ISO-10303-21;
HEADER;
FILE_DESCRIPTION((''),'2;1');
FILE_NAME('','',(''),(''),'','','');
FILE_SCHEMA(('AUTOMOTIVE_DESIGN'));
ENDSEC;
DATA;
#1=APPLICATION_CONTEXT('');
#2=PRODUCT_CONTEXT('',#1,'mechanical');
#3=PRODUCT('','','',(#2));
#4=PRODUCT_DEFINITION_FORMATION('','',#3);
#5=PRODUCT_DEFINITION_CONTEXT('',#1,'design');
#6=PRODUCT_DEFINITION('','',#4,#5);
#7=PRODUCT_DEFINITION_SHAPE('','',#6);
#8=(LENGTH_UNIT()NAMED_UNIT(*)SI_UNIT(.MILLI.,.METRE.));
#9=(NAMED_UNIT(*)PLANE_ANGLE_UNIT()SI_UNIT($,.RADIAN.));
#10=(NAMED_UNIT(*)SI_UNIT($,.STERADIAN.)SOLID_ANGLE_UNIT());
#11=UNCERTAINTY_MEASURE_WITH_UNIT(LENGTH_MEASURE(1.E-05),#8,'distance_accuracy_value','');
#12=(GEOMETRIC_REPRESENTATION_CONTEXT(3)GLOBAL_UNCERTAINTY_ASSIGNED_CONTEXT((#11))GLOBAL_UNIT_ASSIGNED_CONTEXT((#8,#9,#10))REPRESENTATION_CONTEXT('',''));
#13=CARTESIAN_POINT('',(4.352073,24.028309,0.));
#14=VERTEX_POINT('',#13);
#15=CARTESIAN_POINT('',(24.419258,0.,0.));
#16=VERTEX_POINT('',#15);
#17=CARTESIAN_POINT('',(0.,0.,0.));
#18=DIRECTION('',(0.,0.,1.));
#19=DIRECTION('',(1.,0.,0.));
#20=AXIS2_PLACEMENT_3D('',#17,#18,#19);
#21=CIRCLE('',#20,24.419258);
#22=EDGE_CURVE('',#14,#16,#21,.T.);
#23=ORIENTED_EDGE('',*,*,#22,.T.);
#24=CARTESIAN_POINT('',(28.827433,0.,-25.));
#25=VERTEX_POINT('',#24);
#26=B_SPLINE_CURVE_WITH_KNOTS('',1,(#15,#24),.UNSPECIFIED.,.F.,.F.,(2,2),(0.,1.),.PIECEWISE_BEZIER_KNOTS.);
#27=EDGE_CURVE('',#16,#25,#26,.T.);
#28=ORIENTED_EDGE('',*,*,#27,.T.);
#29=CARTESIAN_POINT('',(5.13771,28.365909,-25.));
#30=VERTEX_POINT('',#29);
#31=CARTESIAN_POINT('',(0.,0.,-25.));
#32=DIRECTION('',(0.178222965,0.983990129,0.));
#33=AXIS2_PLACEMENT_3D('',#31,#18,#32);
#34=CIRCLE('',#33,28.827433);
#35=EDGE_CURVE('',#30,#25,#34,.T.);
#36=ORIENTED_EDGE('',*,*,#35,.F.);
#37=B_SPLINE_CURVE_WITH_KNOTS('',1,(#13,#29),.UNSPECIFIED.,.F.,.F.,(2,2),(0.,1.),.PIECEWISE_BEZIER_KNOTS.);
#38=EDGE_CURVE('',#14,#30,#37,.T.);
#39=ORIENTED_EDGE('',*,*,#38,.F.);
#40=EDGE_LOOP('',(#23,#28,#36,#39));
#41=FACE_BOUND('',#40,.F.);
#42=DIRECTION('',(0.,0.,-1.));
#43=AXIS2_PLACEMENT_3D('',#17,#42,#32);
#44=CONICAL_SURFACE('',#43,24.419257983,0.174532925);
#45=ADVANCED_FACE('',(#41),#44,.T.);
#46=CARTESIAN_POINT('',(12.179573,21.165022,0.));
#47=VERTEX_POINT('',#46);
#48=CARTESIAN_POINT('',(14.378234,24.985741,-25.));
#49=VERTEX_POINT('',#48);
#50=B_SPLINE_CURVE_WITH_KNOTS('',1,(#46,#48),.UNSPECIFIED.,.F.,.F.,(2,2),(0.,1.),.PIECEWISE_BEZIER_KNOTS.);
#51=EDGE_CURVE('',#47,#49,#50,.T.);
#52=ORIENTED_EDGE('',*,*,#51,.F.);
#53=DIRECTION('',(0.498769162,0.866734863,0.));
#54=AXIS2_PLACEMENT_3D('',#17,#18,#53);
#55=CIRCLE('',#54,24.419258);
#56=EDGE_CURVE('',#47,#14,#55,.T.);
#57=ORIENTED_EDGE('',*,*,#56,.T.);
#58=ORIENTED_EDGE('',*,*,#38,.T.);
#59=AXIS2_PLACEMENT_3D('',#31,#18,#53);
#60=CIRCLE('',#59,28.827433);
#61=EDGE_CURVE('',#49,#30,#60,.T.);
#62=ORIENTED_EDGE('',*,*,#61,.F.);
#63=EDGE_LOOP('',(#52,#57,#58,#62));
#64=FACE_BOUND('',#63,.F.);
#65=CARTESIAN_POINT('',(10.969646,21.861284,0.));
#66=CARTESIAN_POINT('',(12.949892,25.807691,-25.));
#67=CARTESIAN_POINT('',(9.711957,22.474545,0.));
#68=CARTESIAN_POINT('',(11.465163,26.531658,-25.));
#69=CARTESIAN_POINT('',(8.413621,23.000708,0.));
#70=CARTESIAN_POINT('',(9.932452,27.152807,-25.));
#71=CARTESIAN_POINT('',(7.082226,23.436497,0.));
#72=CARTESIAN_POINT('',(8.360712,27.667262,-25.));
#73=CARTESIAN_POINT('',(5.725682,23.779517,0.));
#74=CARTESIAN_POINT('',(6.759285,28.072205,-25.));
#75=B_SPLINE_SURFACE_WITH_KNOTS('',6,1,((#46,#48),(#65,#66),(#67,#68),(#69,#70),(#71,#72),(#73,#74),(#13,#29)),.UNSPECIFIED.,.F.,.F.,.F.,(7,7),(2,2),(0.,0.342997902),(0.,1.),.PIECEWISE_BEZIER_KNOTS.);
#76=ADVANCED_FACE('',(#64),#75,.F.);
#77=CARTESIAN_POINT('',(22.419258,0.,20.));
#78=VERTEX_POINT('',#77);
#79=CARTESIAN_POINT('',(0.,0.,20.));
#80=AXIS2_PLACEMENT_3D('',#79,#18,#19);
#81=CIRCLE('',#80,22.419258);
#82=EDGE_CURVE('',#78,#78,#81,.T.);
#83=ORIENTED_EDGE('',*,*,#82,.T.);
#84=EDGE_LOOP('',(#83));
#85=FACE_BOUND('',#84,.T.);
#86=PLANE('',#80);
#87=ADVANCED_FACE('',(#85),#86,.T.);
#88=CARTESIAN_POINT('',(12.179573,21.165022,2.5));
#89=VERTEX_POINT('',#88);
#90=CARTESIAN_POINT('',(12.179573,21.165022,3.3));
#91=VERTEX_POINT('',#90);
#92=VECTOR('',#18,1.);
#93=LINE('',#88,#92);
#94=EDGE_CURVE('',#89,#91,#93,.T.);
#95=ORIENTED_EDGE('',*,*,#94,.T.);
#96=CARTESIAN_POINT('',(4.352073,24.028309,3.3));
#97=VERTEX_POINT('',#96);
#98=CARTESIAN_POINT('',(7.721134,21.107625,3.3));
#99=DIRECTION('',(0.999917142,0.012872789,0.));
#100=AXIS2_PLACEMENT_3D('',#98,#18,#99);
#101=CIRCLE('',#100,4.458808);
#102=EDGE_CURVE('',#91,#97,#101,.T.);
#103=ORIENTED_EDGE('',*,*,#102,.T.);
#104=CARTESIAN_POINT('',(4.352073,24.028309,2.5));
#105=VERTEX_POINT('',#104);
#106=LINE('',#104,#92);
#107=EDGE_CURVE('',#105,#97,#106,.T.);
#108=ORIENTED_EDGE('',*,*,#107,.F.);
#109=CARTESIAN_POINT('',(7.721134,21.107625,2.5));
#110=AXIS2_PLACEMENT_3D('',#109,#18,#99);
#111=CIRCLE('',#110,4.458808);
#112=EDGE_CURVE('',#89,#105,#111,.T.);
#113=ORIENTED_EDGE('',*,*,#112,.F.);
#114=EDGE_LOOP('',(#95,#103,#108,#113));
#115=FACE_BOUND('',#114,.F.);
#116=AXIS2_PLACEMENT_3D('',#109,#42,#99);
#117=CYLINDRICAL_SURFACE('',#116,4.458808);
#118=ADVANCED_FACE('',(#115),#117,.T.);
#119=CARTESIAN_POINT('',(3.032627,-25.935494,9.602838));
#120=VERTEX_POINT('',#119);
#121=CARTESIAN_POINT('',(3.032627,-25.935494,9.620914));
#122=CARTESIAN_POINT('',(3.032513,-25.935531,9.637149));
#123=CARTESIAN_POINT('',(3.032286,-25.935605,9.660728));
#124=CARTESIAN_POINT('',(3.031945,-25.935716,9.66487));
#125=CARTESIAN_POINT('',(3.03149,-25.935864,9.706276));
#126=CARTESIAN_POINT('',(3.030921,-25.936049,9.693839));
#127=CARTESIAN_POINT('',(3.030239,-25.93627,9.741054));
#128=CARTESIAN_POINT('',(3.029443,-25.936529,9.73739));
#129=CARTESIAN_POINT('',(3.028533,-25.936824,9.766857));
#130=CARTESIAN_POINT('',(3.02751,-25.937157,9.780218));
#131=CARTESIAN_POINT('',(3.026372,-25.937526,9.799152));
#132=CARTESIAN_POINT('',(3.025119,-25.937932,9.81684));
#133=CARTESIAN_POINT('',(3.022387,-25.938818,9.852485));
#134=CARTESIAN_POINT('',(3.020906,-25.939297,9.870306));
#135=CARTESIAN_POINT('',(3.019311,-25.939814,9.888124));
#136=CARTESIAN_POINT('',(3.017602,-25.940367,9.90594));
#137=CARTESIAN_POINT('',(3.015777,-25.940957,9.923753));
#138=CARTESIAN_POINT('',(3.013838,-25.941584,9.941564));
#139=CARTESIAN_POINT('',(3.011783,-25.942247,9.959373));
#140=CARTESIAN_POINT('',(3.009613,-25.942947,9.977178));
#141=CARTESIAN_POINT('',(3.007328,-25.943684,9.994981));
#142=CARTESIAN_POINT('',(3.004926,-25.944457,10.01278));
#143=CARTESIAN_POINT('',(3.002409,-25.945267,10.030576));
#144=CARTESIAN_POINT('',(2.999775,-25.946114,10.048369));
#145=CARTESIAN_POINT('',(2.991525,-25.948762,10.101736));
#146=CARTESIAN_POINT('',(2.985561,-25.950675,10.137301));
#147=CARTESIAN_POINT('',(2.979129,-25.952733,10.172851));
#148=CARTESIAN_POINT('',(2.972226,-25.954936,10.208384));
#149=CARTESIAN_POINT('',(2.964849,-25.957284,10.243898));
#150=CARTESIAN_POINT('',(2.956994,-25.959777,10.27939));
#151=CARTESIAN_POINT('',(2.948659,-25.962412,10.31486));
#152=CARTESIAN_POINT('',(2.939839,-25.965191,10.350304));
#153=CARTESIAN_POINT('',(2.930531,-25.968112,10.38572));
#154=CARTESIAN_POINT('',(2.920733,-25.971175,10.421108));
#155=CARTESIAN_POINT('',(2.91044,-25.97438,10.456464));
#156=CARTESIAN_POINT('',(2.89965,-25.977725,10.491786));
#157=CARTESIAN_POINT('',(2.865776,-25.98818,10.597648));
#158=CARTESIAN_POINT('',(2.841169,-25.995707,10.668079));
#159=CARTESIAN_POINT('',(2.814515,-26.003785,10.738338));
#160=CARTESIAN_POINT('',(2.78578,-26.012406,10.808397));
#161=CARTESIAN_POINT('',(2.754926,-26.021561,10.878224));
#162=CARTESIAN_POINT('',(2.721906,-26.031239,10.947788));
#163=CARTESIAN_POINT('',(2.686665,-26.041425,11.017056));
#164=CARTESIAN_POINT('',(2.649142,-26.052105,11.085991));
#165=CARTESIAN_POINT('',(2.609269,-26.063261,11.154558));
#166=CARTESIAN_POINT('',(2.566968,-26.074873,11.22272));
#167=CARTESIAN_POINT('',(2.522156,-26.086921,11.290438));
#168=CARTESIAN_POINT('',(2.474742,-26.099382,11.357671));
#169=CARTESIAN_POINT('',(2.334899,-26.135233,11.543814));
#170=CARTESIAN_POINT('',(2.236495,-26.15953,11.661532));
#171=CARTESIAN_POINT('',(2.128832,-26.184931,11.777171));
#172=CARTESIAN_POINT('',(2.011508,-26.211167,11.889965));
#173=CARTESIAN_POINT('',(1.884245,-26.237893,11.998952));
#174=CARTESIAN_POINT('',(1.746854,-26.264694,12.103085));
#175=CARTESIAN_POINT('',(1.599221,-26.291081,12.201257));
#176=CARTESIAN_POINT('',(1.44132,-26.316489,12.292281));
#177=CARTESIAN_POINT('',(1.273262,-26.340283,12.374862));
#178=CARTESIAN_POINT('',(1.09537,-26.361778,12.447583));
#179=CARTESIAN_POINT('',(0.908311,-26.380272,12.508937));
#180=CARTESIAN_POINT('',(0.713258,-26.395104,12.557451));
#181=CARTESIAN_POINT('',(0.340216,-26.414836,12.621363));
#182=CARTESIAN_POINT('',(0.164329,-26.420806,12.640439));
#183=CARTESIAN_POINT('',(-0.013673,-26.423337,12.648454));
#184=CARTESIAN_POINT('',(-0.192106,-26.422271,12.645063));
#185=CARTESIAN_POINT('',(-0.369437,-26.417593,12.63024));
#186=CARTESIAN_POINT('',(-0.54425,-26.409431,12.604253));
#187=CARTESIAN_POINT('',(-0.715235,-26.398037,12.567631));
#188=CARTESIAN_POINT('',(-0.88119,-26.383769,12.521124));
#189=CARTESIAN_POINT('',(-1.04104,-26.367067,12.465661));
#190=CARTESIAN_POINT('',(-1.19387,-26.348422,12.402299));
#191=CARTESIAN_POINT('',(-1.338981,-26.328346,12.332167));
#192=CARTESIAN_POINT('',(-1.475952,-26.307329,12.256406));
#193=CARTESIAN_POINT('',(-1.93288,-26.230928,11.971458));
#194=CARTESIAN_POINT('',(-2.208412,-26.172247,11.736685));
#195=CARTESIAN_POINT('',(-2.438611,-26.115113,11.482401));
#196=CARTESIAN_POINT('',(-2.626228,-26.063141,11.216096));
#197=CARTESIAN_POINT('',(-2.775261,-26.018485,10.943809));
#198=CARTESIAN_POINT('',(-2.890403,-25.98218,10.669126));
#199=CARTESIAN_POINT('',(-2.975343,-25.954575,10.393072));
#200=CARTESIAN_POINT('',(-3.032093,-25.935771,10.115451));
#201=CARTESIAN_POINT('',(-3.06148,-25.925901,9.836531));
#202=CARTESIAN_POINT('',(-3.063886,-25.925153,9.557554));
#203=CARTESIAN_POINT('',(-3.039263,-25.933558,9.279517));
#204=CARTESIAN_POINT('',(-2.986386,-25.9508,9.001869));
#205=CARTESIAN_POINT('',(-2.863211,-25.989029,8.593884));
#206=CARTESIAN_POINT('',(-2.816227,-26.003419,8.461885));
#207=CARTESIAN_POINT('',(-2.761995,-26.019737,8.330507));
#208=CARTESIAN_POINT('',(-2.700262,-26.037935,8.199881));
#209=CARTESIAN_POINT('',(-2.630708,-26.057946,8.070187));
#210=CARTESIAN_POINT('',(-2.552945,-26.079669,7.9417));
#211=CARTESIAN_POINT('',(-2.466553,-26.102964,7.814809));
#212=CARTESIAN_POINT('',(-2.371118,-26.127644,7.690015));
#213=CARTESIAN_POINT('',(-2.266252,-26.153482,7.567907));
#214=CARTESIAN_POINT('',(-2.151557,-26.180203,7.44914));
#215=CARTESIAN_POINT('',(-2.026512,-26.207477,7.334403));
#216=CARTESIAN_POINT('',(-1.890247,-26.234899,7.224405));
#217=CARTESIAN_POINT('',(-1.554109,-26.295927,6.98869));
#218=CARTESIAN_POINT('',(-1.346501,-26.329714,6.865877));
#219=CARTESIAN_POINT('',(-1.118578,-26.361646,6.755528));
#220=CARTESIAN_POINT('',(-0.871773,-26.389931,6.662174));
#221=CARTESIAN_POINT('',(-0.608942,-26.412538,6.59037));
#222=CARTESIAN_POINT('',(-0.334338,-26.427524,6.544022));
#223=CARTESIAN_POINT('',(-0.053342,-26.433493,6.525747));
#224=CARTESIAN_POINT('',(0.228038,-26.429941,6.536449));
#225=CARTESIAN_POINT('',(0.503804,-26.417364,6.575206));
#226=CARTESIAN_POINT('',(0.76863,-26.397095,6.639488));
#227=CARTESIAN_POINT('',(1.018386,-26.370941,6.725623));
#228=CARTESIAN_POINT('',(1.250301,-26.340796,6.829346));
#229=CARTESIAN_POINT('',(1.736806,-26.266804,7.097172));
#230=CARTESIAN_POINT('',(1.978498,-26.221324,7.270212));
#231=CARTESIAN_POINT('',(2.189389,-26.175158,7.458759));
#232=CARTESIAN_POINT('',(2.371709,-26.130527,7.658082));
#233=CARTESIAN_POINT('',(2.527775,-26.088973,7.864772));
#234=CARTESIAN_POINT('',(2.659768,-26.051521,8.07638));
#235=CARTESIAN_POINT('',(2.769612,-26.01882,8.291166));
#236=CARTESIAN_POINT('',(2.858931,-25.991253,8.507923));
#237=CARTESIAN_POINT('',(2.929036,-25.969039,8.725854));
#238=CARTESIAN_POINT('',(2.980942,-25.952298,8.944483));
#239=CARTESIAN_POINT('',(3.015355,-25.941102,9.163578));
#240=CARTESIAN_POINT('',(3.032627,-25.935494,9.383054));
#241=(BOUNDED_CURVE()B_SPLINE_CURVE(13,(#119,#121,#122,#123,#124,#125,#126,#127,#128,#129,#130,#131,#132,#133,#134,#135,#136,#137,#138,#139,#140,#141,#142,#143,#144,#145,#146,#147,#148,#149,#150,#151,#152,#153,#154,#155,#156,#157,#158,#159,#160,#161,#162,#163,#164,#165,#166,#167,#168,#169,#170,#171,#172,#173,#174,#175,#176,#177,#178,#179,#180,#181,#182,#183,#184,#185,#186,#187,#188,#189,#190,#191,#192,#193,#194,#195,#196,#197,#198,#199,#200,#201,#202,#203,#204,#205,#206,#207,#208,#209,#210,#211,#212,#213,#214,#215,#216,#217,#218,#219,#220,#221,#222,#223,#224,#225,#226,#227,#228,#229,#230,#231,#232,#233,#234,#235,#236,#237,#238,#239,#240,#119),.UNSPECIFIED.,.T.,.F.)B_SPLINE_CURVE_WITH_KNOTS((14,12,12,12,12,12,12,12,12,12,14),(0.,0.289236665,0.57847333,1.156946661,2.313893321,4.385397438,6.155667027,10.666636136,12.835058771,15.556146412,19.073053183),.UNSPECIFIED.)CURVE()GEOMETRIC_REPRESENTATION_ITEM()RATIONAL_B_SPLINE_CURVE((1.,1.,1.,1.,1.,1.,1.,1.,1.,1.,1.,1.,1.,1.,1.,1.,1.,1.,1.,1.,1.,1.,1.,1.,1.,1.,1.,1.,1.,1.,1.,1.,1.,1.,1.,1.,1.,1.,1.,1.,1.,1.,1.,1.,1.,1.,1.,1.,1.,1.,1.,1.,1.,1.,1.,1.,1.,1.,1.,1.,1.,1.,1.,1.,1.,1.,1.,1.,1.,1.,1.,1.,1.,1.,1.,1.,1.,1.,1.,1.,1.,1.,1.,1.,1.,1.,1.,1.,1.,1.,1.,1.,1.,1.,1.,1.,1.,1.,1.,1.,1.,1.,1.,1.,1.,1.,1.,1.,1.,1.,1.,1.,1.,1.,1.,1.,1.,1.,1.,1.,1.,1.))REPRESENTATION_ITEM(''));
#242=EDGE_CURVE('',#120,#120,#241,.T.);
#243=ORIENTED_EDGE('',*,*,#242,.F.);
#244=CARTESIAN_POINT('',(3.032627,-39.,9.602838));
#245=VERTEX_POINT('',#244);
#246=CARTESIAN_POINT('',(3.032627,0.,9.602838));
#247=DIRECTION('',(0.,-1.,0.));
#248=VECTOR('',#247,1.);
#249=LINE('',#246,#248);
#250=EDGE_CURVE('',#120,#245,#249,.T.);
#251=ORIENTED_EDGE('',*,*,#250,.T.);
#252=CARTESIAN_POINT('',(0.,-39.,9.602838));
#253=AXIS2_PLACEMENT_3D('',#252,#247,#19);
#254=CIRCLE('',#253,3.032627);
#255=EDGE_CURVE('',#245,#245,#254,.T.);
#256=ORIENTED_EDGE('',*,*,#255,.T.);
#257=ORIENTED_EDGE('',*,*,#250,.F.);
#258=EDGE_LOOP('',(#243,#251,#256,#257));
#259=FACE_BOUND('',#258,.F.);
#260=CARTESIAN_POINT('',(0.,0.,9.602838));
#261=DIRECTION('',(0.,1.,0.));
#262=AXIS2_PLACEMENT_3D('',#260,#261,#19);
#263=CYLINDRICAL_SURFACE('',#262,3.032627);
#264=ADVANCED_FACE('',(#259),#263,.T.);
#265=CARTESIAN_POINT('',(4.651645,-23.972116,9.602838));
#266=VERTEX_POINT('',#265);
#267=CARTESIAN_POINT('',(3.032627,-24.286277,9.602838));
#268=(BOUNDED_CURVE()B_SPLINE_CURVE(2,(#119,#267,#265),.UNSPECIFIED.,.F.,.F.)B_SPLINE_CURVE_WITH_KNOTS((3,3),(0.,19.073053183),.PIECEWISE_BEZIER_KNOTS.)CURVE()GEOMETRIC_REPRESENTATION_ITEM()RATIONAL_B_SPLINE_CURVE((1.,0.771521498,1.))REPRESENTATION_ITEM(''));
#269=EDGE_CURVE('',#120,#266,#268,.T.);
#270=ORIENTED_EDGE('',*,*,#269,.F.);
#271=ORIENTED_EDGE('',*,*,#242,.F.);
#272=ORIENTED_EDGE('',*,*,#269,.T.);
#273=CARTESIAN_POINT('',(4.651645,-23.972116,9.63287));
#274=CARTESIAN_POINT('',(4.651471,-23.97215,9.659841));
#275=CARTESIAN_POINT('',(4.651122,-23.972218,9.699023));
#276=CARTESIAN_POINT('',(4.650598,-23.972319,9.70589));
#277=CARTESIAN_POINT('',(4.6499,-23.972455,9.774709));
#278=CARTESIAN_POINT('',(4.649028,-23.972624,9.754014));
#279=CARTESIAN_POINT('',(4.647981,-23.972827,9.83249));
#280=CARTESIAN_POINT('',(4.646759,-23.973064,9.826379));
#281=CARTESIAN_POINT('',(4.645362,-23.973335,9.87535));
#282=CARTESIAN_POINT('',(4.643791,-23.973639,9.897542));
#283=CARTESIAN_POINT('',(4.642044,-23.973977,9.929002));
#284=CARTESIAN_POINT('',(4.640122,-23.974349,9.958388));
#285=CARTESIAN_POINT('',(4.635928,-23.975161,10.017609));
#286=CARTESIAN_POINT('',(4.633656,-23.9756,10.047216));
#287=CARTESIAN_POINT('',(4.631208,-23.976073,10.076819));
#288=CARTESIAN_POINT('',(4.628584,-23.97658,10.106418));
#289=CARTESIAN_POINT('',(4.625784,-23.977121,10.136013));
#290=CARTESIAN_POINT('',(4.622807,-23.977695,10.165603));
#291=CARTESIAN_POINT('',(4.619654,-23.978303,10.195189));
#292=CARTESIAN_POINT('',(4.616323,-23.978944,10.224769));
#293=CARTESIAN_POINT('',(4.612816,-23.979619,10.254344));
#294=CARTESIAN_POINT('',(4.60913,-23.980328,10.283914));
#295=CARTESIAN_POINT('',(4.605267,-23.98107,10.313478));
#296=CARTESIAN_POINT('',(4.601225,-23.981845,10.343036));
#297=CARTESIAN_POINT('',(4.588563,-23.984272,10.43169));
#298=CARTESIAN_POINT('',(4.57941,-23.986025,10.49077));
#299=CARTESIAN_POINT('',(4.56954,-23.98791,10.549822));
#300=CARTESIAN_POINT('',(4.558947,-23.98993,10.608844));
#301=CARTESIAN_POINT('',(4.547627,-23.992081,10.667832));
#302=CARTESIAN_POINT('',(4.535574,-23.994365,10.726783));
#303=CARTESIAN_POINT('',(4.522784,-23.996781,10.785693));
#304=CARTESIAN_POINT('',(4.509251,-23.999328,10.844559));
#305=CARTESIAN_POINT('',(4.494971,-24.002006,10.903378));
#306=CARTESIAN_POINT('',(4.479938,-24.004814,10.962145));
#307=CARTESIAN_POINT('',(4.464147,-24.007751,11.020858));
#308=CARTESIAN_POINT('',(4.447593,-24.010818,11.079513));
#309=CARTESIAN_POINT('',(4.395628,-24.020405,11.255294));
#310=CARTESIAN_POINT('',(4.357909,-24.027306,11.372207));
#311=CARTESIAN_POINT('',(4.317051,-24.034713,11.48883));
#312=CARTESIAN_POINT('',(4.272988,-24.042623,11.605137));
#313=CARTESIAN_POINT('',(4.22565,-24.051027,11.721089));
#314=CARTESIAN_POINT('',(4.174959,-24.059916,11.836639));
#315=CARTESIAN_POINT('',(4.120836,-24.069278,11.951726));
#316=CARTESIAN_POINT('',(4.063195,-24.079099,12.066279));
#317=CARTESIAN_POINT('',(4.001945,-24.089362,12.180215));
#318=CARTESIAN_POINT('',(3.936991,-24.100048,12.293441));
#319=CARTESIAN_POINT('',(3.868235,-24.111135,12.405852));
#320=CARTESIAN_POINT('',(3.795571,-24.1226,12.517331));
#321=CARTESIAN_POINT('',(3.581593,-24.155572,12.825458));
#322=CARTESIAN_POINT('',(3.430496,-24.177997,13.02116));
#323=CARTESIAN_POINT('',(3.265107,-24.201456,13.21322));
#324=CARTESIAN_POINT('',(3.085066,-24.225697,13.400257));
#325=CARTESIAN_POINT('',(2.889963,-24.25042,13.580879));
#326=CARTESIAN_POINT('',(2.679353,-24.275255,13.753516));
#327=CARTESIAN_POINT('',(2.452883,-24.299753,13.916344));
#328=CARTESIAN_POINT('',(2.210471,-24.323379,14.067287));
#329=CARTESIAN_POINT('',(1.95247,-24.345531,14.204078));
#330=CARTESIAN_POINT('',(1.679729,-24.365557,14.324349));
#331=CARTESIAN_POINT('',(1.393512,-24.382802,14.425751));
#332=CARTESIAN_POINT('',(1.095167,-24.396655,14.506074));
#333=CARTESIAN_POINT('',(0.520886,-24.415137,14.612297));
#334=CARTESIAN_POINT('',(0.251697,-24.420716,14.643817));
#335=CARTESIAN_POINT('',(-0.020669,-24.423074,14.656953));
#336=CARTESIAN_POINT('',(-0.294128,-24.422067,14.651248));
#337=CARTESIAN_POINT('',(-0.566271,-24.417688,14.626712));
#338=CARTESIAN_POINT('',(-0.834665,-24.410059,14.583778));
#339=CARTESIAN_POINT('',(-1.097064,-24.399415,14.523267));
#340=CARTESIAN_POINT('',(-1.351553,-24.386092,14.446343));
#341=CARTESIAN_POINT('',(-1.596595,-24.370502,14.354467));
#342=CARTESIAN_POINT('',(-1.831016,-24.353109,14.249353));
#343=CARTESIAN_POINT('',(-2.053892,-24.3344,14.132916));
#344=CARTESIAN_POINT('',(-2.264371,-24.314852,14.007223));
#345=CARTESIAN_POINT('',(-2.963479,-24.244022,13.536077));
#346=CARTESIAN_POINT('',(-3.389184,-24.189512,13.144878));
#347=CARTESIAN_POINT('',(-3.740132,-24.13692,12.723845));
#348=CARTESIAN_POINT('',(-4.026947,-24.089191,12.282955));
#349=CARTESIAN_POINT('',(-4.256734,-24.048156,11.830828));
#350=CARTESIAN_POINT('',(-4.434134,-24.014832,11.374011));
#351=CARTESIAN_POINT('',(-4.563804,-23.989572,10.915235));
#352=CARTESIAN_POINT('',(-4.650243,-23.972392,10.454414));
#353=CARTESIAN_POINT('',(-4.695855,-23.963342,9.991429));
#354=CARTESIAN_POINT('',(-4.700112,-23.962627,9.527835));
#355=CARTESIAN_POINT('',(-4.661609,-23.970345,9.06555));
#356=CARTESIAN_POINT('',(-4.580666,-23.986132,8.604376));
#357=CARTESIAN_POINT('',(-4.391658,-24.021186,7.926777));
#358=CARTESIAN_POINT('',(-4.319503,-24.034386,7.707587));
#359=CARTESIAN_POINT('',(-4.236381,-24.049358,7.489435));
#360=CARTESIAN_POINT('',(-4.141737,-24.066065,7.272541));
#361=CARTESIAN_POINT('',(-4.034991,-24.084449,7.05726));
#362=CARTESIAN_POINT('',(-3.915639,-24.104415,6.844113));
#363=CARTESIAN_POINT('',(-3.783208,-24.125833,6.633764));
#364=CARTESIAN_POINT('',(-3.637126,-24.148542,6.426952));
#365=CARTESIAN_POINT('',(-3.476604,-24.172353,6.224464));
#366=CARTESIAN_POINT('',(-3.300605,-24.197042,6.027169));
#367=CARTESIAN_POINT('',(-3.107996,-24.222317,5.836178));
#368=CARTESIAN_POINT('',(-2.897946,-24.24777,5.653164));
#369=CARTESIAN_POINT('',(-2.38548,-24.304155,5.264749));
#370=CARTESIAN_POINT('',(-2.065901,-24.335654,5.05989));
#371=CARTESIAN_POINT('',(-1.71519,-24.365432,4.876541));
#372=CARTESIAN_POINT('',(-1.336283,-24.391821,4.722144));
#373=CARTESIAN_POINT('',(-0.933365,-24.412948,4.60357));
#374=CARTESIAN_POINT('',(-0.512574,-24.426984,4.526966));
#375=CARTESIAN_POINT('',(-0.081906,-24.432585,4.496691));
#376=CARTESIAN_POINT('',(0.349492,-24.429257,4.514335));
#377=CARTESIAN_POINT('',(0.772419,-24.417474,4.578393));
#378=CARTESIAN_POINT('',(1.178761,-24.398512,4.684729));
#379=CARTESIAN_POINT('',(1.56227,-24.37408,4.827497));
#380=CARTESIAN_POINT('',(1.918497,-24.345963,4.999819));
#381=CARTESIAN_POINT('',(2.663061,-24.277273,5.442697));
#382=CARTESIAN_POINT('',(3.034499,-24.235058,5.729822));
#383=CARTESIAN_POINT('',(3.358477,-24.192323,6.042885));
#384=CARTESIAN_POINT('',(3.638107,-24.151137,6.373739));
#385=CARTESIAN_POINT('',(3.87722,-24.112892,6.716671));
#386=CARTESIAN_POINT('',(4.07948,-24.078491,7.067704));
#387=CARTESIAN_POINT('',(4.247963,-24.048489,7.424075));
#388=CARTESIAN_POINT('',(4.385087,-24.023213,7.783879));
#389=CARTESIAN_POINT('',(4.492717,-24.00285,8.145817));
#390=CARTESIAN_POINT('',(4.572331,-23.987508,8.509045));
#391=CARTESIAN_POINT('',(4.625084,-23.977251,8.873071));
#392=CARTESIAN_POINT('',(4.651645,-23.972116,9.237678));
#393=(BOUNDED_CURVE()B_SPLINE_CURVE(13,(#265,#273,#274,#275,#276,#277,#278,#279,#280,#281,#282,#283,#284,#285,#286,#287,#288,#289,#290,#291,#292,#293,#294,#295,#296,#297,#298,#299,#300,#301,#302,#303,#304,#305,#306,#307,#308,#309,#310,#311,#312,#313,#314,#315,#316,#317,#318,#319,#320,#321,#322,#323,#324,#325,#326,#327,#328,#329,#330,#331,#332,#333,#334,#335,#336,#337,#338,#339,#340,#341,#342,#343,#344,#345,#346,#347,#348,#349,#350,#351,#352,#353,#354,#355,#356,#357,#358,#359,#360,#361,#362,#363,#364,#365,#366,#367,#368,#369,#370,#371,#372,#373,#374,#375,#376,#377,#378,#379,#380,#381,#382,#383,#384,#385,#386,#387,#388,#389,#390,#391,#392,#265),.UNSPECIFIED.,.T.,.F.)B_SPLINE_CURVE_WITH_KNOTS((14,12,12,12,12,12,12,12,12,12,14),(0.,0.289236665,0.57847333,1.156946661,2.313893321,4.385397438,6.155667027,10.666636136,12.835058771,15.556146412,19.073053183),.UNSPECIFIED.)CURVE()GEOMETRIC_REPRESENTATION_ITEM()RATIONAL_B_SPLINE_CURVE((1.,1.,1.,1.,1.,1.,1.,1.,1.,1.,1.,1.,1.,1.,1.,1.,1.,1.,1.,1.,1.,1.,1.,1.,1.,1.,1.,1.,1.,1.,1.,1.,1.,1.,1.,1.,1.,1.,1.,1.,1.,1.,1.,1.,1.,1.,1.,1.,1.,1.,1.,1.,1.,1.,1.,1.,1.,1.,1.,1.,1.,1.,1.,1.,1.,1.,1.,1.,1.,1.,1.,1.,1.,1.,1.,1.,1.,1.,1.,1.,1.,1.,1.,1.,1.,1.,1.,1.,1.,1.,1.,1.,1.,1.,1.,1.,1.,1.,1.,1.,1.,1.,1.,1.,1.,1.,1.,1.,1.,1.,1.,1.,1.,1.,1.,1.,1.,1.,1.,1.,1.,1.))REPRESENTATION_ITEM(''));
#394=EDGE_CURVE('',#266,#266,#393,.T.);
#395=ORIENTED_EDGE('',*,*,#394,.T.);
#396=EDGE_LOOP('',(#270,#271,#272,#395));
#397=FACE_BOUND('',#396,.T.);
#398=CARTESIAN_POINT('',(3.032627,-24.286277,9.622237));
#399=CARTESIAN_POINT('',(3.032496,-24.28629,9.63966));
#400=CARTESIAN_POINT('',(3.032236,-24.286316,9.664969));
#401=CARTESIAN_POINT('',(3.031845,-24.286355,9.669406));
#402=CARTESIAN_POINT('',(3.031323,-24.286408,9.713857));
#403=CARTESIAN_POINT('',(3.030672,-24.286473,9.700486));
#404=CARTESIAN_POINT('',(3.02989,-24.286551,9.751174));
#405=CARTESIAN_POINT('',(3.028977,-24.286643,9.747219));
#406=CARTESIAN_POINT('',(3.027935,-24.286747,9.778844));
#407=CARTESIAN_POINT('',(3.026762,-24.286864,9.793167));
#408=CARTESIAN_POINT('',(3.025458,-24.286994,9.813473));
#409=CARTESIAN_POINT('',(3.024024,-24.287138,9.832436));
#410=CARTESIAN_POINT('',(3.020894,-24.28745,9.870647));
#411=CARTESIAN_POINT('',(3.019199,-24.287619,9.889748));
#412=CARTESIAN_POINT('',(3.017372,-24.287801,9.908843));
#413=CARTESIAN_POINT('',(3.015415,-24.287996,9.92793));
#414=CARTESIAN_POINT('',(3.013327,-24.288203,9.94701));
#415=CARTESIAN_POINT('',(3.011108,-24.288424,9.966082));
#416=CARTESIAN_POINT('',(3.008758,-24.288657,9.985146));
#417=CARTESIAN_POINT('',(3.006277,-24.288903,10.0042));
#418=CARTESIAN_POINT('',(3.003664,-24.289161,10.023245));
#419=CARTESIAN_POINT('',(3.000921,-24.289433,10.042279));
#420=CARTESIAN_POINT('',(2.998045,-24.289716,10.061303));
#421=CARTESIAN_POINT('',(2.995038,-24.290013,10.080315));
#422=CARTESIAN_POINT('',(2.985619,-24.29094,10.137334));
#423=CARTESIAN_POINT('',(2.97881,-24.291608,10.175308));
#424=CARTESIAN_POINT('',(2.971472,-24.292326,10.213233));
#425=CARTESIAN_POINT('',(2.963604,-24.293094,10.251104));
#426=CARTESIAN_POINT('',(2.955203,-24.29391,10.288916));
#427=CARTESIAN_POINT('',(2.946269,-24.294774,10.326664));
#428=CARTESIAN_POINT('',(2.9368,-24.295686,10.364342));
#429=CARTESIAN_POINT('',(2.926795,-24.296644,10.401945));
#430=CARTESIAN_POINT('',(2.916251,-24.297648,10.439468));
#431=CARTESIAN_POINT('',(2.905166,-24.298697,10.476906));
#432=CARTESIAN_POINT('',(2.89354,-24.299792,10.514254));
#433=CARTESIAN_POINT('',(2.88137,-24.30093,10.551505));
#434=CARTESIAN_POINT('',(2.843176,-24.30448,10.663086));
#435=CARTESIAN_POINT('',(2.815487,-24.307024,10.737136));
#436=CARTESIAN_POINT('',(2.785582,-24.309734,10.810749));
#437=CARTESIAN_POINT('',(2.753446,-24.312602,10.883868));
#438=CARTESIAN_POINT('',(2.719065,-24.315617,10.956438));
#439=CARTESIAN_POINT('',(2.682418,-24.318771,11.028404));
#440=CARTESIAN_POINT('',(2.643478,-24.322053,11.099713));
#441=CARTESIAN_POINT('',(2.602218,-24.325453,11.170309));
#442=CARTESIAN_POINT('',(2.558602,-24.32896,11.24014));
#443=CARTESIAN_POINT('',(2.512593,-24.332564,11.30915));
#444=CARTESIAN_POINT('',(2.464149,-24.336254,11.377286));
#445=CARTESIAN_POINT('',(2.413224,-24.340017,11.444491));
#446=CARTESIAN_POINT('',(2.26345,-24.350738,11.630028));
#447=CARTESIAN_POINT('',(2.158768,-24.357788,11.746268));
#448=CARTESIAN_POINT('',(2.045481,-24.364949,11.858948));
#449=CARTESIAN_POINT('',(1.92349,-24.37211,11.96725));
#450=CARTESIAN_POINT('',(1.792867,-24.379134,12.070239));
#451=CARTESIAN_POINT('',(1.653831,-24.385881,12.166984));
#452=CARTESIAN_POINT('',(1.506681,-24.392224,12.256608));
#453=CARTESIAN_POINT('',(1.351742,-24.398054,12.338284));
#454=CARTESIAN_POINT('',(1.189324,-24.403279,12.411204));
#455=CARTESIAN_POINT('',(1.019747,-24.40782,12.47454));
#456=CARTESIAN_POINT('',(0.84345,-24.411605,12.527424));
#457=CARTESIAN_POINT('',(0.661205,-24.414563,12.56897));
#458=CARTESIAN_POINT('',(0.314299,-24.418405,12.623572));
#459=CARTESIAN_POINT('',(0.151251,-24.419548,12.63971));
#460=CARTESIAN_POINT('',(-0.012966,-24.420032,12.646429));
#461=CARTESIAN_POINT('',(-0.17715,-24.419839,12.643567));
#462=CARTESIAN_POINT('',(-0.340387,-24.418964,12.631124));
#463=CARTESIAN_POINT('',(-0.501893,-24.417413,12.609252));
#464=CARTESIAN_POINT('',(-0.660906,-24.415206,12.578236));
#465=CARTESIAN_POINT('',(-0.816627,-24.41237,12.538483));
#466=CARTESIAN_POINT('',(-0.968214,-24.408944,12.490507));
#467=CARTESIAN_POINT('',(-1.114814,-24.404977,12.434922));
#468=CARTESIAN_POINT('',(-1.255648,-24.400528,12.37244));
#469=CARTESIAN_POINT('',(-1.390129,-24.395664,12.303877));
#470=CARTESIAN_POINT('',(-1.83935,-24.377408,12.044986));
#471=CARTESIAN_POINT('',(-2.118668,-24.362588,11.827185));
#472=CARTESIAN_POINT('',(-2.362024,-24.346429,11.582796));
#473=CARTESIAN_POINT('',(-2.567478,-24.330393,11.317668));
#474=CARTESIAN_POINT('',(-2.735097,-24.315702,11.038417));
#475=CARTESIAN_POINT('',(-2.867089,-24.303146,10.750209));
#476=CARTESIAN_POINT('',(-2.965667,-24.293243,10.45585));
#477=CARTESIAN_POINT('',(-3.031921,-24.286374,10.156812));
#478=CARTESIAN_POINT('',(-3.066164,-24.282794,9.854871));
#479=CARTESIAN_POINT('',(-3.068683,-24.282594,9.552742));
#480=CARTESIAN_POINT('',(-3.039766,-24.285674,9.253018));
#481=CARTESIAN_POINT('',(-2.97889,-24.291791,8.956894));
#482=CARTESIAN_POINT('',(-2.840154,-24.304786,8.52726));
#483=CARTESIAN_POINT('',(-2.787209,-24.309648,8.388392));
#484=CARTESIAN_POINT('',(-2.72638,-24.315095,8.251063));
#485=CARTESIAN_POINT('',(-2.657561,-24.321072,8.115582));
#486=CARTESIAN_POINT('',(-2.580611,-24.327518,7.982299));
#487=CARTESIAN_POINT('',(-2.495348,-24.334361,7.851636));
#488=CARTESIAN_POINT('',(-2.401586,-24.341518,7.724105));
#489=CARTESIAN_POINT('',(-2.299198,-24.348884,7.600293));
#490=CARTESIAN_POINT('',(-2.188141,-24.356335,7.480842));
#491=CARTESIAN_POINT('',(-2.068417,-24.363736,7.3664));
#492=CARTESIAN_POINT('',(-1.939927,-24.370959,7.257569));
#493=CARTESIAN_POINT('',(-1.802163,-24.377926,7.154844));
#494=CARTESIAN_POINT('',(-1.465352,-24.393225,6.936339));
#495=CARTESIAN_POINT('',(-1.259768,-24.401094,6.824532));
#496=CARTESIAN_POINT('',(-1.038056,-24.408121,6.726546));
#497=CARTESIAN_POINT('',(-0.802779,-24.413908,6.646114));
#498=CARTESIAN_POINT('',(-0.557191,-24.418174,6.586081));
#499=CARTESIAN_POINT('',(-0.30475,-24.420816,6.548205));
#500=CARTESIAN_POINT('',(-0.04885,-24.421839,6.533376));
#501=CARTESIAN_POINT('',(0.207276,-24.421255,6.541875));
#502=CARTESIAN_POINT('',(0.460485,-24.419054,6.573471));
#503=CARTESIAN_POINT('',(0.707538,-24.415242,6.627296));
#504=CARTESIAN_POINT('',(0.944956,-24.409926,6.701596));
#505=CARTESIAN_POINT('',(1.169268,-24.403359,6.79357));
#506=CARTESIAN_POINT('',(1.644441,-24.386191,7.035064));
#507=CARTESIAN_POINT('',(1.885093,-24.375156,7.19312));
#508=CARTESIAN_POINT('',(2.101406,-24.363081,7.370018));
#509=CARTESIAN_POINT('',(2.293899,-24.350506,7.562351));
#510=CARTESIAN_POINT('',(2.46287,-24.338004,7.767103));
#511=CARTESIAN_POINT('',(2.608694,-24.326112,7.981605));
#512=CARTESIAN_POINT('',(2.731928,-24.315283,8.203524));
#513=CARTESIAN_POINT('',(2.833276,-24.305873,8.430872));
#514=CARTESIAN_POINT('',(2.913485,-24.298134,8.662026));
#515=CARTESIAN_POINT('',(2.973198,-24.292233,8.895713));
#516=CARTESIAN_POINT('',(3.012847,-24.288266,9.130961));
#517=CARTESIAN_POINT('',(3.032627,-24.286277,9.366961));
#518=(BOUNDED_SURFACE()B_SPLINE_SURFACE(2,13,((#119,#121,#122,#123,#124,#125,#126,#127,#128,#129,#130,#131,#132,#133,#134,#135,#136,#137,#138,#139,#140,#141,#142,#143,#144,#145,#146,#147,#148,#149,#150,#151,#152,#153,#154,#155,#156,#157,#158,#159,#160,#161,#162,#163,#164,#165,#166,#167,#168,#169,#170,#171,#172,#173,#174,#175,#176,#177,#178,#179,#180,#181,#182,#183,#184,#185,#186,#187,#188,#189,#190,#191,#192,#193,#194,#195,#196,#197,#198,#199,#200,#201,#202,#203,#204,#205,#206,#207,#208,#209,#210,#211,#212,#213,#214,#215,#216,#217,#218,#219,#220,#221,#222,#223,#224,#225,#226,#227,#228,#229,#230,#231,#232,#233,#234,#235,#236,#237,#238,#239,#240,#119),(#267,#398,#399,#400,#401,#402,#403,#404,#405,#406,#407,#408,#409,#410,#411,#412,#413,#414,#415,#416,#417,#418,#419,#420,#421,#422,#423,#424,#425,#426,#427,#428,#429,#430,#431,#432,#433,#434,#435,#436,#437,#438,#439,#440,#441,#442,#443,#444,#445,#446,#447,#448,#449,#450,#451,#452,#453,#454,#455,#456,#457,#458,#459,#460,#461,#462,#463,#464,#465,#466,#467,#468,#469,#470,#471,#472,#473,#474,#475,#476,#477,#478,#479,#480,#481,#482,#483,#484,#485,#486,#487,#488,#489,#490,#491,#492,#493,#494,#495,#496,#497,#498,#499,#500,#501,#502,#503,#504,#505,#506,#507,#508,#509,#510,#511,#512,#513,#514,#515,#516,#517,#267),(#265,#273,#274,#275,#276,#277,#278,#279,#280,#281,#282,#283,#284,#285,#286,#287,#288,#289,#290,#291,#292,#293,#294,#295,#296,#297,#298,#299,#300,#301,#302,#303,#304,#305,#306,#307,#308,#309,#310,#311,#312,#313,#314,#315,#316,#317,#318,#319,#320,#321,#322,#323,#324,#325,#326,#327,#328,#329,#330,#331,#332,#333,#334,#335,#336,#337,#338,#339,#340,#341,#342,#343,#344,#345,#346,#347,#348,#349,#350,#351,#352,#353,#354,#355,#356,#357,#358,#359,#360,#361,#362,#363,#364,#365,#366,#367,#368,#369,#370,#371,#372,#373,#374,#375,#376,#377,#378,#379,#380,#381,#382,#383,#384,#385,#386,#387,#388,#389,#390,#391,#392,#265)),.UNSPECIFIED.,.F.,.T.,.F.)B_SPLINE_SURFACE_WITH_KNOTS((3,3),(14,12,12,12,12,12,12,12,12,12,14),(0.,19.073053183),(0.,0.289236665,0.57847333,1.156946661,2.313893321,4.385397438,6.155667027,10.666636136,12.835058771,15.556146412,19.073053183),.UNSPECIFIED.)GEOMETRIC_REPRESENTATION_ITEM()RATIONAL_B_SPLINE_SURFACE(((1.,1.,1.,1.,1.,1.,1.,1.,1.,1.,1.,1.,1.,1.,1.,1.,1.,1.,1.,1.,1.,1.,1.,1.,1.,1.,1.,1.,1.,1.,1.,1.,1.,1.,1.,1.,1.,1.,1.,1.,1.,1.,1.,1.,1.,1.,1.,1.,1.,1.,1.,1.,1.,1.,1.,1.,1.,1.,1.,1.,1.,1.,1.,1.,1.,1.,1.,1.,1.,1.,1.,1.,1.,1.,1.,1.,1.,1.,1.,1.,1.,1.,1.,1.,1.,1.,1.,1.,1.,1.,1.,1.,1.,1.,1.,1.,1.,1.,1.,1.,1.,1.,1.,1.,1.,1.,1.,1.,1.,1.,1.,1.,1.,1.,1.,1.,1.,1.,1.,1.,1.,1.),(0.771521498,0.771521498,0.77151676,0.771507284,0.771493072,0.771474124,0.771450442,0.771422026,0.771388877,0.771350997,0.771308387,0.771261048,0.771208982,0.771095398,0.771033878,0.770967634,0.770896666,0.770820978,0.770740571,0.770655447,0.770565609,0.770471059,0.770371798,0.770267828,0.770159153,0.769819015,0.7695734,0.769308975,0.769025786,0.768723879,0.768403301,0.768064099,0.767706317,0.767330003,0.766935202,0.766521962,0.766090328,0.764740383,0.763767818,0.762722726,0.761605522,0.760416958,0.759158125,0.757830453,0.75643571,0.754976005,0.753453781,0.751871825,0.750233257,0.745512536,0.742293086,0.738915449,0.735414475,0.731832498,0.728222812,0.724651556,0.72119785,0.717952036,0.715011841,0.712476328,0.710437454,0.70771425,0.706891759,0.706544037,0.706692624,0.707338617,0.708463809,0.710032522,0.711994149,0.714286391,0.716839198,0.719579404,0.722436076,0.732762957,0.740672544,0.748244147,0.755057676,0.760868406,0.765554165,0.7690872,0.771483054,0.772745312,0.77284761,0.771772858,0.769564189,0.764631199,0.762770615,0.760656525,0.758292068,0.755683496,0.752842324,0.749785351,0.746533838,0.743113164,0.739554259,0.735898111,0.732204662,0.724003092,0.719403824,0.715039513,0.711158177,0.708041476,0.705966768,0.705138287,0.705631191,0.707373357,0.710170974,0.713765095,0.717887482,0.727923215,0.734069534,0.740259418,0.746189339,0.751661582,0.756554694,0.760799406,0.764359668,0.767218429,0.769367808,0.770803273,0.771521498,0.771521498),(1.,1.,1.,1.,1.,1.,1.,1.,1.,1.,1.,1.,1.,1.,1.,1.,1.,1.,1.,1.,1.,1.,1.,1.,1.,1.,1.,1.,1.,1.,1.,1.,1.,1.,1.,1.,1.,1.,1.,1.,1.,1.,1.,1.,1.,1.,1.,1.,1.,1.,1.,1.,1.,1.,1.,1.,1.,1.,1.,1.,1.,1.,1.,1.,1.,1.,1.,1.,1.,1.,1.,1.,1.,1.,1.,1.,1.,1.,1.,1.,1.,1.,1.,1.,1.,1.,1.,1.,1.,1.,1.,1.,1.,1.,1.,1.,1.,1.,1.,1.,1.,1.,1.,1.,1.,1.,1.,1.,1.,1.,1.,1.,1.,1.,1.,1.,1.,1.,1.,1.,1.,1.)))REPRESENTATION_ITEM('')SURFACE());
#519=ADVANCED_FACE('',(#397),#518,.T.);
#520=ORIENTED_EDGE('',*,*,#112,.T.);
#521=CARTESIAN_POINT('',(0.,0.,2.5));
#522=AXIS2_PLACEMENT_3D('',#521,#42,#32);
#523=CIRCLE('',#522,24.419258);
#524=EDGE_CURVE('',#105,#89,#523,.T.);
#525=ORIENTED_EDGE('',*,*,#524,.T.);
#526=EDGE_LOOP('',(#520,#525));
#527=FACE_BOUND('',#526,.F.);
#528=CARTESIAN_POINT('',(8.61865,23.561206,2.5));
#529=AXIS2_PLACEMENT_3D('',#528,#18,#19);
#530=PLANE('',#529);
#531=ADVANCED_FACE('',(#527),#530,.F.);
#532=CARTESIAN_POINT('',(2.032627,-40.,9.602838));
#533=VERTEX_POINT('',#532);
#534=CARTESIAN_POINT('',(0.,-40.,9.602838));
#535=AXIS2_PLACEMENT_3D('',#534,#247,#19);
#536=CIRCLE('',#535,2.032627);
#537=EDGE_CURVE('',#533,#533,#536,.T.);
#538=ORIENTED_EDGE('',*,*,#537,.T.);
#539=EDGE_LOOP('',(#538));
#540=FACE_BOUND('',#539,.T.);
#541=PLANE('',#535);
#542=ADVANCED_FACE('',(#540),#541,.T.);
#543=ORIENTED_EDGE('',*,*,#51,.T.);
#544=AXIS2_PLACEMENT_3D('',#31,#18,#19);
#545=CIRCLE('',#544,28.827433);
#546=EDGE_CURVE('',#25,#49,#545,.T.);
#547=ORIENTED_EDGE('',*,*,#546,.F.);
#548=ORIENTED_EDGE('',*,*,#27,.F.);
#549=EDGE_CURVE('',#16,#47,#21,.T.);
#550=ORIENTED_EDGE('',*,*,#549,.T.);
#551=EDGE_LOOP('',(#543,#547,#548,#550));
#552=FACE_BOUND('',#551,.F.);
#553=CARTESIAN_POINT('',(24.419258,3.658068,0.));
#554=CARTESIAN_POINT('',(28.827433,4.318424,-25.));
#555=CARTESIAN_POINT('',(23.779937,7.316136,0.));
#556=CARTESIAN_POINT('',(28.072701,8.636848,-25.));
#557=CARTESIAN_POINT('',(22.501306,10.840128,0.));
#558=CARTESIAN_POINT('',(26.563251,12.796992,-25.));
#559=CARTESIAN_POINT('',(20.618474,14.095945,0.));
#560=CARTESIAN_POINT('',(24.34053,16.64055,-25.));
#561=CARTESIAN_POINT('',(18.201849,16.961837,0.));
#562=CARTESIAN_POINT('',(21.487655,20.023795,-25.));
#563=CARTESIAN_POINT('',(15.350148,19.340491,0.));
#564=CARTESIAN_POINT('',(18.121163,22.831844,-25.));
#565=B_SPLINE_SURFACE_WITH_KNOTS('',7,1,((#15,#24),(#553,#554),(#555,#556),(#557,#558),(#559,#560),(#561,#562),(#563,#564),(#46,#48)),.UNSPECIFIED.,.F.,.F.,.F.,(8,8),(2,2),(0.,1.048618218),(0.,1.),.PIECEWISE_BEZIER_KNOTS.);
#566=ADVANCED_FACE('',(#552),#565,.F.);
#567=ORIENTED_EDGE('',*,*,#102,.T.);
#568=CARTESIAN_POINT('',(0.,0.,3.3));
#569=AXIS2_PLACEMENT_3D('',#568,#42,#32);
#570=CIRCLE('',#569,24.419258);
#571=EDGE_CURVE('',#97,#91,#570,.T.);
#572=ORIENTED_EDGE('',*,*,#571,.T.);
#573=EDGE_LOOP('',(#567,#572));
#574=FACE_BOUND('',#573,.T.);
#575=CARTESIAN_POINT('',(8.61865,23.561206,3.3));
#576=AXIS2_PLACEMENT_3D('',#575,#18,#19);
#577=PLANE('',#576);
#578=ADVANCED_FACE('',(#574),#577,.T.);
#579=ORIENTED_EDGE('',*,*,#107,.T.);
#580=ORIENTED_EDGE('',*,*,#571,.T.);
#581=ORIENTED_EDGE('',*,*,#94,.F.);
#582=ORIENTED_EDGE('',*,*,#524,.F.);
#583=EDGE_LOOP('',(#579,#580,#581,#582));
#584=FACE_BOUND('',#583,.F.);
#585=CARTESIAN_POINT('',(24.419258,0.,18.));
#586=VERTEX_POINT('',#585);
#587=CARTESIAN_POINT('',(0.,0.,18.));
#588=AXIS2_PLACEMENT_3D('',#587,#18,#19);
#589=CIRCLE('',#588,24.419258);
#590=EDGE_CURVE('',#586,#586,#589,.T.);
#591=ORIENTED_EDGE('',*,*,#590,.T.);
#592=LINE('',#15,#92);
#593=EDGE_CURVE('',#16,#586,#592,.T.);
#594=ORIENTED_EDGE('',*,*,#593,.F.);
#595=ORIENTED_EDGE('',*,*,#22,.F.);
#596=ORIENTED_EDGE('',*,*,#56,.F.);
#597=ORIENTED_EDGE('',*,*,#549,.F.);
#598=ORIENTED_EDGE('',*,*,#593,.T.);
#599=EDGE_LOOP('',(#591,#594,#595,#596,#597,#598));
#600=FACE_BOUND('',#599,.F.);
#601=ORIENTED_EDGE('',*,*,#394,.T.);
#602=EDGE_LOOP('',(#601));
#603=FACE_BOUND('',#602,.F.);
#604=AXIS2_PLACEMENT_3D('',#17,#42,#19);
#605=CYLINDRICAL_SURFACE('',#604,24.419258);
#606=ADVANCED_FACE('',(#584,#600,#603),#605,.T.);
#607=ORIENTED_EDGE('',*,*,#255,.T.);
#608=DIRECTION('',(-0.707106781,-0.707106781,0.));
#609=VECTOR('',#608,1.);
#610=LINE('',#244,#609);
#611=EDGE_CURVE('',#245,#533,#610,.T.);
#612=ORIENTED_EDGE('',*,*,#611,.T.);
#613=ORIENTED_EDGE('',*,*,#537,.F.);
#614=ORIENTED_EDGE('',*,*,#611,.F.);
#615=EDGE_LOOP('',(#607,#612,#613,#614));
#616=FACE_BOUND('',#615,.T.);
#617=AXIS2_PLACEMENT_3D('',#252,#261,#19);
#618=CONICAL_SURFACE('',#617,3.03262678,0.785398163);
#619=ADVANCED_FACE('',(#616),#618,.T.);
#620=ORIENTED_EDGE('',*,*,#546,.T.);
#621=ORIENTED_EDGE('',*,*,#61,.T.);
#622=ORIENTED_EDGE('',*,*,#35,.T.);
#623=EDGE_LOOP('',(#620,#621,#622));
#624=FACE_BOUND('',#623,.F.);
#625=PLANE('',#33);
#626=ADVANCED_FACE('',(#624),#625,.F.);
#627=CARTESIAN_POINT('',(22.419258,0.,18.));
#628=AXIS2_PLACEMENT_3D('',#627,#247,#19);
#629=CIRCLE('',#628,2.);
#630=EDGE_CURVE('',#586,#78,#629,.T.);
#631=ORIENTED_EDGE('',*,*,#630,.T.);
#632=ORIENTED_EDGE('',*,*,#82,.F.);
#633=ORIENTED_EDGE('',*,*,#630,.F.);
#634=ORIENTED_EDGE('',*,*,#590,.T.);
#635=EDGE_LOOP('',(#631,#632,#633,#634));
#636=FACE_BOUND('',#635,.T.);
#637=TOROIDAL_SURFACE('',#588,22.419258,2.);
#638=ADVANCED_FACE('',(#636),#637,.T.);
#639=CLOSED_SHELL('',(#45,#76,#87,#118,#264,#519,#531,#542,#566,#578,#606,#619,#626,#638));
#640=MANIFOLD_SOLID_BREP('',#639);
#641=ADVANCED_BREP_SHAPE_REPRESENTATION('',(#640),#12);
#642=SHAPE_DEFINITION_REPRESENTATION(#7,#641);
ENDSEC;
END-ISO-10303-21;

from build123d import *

# Parameters (mm, degrees)
F0_R      = 24.4192579829
F1_DEPTH  = 20
F5_DEPTH  = 0.8
F6_R      = 3.0326267801
F7_DEPTH  = 40
F8_R      = 2
F9_SIZE   = 1
F10_DEPTH = 25
F10_TAPER = -10


with BuildPart() as f1:
    # F0 (on Top) → F1 (new body)
    with BuildSketch(Plane.XY):
        Circle(F0_R)
    extrude(amount=F1_DEPTH)

    # F4 (on offset) → F5 (join)
    with BuildSketch(Plane.XY.offset(2.5)):
        with BuildLine():
            ThreePointArc((4.3520725579, 24.0283088229), (8.3888871456, 22.9330925279), (12.179572853, 21.1650222196))
            ThreePointArc((12.179572853, 21.1650222196), (9.2528939627, 25.2950683106), (4.3520725579, 24.0283088229))
        make_face()
    extrude(amount=F5_DEPTH)

    # F6 (on Front) → F7 (join)
    with BuildSketch(Plane.XZ):
        with Locations((0, 9.6028381959)):
            Circle(F6_R)
    extrude(amount=F7_DEPTH)

    # F8
    f8_edges = [f1.edges().sort_by_distance(p)[0] for p in [
        (-24.419258, 0, 20),
        (-3.032627, -24.230215, 9.602838),
    ]]
    fillet(f8_edges, radius=F8_R)

    # F9
    f9_edges = [f1.edges().sort_by_distance(p)[0] for p in [
        (-3.032627, -40, 9.602838),
    ]]
    chamfer(f9_edges, length=F9_SIZE)

    # F2 (on Top) → F10 (join)
    with BuildSketch(Plane.XY):
        with BuildLine():
            ThreePointArc((4.3520725579, 24.0283088229), (-18.7426591361, -15.6528875592), (24.4192579829, 0))
            ThreePointArc((24.4192579829, 0), (21.1390195143, 12.2246478235), (12.179572853, 21.1650222196))
            ThreePointArc((12.179572853, 21.1650222196), (8.3888871456, 22.9330925279), (4.3520725579, 24.0283088229))
        make_face()
    extrude(amount=-F10_DEPTH, taper=F10_TAPER)


solid = f1.part
